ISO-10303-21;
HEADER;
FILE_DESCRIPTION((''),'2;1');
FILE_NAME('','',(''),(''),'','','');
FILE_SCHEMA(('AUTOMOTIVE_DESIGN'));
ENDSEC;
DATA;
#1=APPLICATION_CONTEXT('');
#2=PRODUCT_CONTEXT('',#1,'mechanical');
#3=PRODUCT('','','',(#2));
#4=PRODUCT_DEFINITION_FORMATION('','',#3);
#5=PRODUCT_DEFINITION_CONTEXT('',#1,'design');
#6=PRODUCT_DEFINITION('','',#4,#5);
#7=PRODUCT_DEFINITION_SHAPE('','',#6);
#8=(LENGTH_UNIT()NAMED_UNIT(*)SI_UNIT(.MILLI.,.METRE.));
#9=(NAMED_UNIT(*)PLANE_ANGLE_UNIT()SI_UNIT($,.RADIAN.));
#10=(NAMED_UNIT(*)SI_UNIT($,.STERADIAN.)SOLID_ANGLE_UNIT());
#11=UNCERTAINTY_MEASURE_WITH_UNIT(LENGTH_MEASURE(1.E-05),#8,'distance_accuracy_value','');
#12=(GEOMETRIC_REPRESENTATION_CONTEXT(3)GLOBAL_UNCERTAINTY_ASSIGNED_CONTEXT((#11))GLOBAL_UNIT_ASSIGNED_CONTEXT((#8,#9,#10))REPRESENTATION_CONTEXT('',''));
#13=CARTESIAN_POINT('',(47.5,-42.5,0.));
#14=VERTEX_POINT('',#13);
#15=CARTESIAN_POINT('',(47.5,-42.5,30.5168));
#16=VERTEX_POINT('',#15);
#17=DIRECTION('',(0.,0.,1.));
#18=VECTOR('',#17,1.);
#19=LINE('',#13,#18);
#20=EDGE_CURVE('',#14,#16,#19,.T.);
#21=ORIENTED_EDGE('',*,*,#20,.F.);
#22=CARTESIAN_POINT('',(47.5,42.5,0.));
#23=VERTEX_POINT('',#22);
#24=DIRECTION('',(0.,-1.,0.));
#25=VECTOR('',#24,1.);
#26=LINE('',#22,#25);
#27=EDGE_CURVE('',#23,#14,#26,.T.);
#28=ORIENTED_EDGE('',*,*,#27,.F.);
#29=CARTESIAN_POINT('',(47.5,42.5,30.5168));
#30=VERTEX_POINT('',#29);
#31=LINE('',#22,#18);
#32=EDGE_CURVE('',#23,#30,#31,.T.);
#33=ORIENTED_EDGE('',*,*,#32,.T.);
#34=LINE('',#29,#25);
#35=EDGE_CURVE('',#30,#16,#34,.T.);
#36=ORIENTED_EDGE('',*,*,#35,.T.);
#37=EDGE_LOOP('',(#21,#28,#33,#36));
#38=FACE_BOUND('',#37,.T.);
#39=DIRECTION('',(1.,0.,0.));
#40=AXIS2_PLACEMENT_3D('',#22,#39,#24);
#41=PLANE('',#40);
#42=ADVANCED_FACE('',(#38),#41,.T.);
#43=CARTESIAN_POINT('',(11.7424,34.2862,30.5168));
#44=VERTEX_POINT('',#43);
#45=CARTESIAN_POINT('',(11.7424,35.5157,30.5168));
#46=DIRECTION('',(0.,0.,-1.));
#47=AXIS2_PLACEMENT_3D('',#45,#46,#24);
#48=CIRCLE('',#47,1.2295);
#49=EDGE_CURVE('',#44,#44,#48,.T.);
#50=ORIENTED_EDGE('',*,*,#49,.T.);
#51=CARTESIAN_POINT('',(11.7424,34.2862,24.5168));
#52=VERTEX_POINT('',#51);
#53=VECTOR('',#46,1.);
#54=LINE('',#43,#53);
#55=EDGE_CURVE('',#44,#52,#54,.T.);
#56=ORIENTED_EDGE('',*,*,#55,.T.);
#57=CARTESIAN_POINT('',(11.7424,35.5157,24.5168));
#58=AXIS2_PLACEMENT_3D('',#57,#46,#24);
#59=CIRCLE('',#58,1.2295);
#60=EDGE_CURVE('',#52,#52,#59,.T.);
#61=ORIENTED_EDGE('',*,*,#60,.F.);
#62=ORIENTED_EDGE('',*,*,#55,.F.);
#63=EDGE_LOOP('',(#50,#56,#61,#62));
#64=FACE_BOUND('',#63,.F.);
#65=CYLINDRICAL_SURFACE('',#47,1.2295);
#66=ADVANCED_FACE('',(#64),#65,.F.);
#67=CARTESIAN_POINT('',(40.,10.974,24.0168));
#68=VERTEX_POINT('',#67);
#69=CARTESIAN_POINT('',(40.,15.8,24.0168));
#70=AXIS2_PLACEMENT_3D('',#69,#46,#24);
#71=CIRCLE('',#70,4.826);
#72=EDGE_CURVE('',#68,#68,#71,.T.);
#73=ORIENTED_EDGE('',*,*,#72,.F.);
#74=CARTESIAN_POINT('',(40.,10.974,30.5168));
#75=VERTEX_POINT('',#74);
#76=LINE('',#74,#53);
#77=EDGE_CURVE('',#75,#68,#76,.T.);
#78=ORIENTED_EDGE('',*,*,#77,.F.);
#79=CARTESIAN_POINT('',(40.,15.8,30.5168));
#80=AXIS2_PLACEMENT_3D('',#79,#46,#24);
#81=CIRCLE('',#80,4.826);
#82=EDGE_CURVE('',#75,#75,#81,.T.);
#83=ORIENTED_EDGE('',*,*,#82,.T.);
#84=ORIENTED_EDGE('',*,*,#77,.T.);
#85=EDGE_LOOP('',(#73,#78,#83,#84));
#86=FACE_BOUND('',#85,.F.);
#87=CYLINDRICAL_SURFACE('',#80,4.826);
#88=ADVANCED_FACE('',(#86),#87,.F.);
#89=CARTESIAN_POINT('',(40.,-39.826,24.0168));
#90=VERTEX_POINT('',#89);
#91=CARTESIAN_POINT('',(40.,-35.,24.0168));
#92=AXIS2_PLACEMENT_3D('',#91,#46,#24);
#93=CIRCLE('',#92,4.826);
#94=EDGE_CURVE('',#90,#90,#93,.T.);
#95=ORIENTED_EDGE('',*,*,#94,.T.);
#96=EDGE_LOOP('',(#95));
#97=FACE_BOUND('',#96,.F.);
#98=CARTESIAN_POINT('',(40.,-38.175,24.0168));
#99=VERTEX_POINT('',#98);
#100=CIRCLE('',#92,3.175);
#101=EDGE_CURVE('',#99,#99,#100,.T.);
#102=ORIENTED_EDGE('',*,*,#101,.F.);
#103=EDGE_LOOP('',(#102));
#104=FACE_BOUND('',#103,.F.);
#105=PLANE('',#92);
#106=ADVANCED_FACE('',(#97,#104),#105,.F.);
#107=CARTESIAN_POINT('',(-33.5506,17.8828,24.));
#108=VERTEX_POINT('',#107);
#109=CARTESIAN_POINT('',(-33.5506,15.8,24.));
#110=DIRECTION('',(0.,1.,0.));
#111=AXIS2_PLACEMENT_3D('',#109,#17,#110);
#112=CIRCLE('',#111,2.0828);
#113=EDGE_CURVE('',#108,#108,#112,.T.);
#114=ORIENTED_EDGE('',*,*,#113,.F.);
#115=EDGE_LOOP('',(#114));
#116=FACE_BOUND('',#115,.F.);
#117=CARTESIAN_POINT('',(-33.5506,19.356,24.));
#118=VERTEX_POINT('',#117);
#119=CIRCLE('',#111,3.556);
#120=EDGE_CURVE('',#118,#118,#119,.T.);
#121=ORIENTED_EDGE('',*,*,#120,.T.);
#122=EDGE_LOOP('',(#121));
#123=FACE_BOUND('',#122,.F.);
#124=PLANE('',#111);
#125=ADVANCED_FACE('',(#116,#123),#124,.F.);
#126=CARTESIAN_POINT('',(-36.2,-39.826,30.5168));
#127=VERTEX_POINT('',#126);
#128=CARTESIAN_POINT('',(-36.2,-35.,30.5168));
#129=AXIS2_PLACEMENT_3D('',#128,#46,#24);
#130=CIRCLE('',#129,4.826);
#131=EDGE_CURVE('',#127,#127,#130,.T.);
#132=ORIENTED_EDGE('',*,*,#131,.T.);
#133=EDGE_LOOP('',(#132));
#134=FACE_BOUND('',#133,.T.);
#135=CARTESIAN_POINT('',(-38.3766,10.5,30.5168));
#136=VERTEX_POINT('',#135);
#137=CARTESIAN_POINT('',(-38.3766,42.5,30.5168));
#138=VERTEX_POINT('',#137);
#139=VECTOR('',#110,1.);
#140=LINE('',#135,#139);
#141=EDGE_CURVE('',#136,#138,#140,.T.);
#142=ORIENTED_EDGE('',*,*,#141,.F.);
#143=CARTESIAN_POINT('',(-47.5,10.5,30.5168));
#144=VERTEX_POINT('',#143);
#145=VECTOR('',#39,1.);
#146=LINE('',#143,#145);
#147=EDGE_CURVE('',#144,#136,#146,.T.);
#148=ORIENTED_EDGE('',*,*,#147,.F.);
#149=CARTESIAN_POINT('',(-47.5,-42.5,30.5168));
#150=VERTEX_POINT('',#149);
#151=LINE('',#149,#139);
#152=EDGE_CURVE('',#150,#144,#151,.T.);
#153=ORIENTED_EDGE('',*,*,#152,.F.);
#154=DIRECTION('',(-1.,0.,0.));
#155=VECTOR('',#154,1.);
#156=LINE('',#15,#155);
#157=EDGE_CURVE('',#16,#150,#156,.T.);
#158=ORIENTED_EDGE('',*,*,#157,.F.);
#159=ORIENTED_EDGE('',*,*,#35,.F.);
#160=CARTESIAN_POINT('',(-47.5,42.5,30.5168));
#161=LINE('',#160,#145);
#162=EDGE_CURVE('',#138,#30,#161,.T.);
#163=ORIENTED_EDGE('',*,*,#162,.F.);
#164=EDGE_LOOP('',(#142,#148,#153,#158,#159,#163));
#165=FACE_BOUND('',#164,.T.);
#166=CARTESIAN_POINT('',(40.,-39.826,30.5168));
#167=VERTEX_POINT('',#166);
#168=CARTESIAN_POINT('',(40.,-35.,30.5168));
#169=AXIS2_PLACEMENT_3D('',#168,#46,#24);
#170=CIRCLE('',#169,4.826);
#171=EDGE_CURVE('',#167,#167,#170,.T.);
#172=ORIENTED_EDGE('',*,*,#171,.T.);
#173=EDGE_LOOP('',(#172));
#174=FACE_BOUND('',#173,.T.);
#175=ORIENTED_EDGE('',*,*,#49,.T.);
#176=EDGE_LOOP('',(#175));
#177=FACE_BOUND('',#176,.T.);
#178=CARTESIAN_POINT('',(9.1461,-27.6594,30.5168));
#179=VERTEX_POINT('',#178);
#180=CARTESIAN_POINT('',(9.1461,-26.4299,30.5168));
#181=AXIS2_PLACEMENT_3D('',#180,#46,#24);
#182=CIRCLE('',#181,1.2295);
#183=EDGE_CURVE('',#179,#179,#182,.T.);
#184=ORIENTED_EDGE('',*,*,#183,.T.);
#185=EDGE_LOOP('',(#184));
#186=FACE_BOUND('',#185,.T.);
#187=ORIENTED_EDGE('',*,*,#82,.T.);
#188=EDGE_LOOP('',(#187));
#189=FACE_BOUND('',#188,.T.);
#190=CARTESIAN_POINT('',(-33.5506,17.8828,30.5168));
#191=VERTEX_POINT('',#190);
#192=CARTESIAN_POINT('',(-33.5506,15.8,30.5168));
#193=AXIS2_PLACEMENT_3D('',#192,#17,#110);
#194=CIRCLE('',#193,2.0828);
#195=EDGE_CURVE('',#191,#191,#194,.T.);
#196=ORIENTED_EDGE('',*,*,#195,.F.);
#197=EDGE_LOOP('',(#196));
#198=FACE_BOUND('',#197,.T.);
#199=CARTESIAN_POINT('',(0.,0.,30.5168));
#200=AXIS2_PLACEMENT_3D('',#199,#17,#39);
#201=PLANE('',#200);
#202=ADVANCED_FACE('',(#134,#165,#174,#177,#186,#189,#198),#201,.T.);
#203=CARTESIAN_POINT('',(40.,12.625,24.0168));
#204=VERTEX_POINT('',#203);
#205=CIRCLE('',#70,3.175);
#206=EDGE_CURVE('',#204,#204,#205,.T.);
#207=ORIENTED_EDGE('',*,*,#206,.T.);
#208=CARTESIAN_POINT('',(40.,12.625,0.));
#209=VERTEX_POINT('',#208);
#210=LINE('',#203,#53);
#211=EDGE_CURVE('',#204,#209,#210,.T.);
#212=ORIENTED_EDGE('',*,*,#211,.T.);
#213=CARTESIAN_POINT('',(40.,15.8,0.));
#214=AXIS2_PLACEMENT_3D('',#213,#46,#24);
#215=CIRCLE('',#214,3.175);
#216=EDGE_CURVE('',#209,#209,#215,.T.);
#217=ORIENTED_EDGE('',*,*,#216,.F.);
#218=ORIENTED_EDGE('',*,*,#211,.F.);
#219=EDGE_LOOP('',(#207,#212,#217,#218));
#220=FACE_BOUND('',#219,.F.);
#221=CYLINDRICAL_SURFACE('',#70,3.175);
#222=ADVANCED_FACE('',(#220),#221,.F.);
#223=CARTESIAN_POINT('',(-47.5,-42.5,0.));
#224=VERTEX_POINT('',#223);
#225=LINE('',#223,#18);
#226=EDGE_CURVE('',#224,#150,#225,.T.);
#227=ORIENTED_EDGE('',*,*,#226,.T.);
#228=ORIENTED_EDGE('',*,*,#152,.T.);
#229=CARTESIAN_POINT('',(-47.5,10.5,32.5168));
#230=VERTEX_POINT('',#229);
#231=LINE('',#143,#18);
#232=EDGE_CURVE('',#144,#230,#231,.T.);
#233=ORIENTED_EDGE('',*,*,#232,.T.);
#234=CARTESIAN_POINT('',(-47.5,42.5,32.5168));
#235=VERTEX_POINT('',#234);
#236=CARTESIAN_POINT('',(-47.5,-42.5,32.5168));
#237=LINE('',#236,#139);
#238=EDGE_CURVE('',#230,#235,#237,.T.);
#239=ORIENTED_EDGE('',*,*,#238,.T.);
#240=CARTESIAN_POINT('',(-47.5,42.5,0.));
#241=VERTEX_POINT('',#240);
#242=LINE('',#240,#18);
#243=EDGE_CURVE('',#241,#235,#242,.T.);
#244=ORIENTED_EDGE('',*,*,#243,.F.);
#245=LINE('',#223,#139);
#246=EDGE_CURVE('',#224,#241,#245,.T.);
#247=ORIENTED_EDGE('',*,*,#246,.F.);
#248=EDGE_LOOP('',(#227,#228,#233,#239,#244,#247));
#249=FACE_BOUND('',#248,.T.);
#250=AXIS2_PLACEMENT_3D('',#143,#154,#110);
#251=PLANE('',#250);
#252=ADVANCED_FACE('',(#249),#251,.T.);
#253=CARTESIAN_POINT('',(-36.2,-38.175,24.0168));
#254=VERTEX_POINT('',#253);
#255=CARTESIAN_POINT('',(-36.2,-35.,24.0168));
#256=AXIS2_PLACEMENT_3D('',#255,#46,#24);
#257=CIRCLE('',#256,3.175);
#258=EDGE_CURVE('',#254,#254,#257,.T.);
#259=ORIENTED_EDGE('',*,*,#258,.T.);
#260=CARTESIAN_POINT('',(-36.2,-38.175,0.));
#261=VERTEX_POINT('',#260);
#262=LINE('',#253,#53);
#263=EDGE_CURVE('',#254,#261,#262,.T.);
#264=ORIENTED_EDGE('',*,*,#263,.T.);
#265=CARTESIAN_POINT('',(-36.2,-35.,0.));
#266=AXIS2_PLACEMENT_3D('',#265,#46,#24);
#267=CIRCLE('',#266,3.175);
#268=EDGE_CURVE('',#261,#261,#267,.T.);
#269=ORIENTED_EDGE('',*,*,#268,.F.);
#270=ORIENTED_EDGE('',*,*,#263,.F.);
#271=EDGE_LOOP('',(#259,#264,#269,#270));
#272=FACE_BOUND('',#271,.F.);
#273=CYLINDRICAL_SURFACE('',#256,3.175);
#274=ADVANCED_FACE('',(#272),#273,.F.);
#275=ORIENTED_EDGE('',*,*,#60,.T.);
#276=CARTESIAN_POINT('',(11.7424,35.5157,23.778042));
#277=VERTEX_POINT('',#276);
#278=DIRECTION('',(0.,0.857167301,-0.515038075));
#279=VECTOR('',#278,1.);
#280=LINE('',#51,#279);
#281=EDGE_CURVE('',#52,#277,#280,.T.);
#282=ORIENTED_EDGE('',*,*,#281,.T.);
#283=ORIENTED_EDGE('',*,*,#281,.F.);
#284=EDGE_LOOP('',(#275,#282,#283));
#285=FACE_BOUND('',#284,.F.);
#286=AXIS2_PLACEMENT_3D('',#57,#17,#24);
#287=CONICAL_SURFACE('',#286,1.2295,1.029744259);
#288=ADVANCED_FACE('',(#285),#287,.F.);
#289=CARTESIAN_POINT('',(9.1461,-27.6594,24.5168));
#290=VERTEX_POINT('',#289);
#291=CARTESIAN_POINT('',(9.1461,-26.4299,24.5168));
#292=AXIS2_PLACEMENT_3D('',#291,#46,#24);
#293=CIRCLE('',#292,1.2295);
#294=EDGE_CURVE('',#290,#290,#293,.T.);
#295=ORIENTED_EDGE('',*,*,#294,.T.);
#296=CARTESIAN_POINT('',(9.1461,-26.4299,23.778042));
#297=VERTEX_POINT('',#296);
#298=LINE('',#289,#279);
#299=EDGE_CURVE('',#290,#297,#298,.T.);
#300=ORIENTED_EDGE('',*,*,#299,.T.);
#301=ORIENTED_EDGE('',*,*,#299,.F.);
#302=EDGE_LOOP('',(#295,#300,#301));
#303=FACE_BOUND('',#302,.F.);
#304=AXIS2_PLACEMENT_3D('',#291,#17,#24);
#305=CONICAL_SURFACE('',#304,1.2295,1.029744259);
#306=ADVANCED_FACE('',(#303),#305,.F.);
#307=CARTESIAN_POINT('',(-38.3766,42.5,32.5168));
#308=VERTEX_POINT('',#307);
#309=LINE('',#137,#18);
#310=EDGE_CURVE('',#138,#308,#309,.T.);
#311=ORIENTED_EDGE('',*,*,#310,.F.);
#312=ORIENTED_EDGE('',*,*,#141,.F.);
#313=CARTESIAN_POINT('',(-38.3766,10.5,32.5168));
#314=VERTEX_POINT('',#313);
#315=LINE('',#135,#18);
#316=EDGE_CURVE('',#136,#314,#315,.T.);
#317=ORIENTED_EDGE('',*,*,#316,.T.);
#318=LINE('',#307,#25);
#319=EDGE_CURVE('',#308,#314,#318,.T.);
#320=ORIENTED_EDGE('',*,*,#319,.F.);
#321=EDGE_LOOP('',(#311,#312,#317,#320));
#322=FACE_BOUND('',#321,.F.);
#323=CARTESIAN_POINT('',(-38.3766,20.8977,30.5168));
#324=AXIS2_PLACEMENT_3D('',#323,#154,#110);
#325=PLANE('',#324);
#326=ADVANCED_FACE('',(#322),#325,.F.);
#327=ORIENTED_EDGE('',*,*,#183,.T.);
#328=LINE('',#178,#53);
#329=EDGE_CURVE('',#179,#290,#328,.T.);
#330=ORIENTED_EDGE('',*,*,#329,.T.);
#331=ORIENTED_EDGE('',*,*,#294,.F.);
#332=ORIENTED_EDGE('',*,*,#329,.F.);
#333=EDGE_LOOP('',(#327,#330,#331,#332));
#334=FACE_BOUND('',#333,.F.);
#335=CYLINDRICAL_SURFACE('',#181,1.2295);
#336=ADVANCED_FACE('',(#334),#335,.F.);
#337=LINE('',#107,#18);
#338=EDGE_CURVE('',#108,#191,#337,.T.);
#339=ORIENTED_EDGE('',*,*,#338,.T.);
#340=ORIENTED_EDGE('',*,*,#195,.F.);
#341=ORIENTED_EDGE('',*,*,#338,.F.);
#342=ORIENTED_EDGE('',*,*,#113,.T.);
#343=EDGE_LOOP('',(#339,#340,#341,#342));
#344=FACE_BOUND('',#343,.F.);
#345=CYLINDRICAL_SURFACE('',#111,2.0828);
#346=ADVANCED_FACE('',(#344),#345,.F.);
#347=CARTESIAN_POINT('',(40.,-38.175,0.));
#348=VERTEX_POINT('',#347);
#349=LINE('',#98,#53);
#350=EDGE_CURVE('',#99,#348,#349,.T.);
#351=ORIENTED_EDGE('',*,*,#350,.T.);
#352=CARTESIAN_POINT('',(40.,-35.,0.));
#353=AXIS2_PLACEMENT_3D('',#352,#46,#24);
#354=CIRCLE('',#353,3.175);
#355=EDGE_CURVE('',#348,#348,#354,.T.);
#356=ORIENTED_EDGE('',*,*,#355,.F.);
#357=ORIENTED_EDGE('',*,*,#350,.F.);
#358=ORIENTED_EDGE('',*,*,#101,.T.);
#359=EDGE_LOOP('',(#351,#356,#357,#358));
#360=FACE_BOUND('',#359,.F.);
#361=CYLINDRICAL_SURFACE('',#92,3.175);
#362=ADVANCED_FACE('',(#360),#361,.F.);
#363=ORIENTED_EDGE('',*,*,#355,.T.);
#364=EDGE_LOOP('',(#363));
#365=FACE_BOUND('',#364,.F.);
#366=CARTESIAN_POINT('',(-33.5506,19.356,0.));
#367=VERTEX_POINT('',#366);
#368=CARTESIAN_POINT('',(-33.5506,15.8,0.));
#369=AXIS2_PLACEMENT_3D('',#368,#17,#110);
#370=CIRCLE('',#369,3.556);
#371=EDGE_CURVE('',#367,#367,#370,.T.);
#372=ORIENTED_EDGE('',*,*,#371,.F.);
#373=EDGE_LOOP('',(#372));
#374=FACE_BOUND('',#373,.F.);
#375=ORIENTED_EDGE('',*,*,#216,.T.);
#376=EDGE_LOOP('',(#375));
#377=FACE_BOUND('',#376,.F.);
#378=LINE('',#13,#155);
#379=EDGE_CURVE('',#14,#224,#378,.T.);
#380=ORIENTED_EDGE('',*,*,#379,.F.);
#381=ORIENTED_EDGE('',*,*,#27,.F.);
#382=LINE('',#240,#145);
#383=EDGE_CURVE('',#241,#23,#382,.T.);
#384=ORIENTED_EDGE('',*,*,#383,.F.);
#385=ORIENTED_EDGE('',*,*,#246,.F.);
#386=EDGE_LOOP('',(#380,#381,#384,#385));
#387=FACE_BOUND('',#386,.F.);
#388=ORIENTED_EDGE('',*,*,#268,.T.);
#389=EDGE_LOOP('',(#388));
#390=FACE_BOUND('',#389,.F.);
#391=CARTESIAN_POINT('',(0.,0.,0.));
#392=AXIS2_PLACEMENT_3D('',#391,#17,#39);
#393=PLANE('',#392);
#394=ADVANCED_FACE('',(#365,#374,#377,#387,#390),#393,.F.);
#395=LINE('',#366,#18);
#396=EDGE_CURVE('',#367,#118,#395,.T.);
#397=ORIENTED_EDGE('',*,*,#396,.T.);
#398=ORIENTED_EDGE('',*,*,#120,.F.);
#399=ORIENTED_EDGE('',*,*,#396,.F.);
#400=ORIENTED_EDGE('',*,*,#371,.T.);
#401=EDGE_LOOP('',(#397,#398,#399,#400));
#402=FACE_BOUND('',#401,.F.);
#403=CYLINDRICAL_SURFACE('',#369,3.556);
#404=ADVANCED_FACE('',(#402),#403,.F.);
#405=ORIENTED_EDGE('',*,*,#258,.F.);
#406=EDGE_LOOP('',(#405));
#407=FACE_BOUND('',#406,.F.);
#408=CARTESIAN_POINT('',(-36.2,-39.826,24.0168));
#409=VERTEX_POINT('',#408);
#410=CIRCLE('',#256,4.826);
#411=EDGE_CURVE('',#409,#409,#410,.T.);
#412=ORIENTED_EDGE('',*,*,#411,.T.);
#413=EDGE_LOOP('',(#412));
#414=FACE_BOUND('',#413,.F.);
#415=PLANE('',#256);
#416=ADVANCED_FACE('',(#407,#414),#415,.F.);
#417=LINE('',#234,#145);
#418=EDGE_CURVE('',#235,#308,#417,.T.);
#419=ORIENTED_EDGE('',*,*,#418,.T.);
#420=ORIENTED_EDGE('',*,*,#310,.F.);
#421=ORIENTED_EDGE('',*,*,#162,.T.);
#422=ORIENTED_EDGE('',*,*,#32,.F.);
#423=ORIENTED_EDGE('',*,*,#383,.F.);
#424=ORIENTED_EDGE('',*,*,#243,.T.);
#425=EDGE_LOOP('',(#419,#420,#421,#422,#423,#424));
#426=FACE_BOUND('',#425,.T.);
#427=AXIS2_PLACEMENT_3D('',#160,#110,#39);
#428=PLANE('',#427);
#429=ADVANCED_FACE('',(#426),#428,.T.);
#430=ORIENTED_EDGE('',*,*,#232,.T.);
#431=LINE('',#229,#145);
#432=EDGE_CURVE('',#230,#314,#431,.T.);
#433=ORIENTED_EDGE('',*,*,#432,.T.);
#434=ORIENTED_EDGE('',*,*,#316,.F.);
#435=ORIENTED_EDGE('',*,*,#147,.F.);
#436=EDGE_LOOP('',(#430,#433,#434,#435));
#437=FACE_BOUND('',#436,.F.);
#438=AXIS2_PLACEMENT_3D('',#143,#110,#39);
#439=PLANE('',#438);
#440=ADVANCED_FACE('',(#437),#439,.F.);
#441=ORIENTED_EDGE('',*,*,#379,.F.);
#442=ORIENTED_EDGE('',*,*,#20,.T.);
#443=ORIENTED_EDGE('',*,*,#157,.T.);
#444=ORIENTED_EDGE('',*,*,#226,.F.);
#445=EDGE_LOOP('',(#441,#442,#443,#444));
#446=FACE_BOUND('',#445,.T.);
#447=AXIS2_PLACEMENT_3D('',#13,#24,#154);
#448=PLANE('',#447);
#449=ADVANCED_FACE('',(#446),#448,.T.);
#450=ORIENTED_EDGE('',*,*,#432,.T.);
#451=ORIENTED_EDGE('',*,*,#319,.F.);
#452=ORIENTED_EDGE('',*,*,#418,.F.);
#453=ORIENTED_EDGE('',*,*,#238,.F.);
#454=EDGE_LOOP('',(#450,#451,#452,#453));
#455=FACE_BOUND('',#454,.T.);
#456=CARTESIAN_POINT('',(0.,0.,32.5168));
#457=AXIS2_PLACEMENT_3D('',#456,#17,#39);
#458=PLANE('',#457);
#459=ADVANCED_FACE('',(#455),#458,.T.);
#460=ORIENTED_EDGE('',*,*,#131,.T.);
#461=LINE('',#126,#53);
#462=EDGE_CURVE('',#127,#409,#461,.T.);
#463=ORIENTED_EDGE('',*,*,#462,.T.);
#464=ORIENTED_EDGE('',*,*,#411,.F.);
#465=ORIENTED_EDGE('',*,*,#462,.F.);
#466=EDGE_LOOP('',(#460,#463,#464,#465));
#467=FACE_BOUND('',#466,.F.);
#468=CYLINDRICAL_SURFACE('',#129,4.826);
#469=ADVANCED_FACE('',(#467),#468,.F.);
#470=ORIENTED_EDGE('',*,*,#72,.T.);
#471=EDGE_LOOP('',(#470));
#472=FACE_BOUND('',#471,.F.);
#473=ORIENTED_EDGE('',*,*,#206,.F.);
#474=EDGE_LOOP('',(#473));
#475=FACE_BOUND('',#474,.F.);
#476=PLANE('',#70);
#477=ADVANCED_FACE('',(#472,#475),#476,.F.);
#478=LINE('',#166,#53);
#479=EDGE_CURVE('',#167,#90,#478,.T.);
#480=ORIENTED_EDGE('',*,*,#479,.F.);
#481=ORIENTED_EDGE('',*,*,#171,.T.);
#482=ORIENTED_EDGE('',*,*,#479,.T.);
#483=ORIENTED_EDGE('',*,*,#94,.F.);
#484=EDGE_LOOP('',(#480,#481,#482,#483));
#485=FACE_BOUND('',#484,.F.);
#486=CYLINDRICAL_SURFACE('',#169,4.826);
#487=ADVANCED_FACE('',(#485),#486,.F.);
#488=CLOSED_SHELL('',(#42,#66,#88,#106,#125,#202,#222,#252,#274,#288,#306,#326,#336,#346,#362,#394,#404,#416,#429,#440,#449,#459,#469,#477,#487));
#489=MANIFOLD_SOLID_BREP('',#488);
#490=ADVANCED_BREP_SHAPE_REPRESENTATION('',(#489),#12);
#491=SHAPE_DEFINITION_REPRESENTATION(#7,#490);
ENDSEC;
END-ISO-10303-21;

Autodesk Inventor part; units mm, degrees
ref_plane "YZ Plane" through (0, 0, 0) normal (1, 0, 0) x (0, 1, 0)
ref_plane "XZ Plane" through (0, 0, 0) normal (0, 1, 0) x (-1, 0, 0)
ref_plane "XY Plane" through (0, 0, 0) normal (0, 0, 1) x (1, 0, 0)
sketch "Sketch1" plane through (0, 0, 0) normal (0, 0, 1) x (1, 0, 0)
  line L0 (-47.5, 42.5) -> (47.5, 42.5)
  line L1 (47.5, 42.5) -> (47.5, -42.5)
  line L2 (47.5, -42.5) -> (-47.5, -42.5)
  line L3 (-47.5, -42.5) -> (-47.5, 42.5)
  point P0 (0, 0)
  dimension "d0" = 95
  dimension "d1" = 85
  dimension "d2" = 47.5
  dimension "d3" = 42.5
extrude "Extrusion1" add sketch "Sketch1" along normal blind 30.5168
sketch "Sketch2" plane through (0, 0, 30.5168) normal (0, 0, 1) x (1, 0, 0)
  arc A0 (-201.3, -568.6) -> (-188.8, -581.1) centre (-188.8, -568.6) ccw projected
  line L0 (-188.8, -581.1) -> (243.4, -581.1) projected
  arc A1 (243.4, -581.1) -> (255.9, -568.6) centre (243.4, -568.6) ccw projected
  line L1 (255.9, -568.6) -> (255.9, 16) projected
  arc A2 (255.9, 16) -> (243.4, 28.5) centre (243.4, 16) ccw projected
  line L2 (243.4, 28.5) -> (-188.8, 28.5) projected
  arc A3 (-188.8, 28.5) -> (-201.3, 16) centre (-188.8, 16) ccw projected
  line L3 (-201.3, 16) -> (-201.3, -568.6) projected
  circle A4 centre (217.8, -568.4) radius 2.5527 projected
  circle A5 centre (192.4, -568.4) radius 2.5527 projected
  circle A6 centre (167, -568.4) radius 2.5527 projected
  circle A7 centre (141.6, -568.4) radius 2.5527 projected
  circle A8 centre (116.2, -568.4) radius 2.5527 projected
  circle A9 centre (90.8, -568.4) radius 2.5527 projected
  circle A10 centre (65.4, -568.4) radius 2.5527 projected
  circle A11 centre (40, -568.4) radius 2.5527 projected
  circle A12 centre (14.6, -568.4) radius 2.5527 projected
  circle A13 centre (-10.8, -568.4) radius 2.5527 projected
  circle A14 centre (-36.2, -568.4) radius 2.5527 projected
  circle A15 centre (-61.6, -568.4) radius 2.5527 projected
  circle A16 centre (-87, -568.4) radius 2.5527 projected
  circle A17 centre (-112.4, -568.4) radius 2.5527 projected
  circle A18 centre (-137.8, -568.4) radius 2.5527 projected
  circle A19 centre (-163.2, -568.4) radius 2.5527 projected
  circle A20 centre (-188.6, -568.4) radius 2.5527 projected
  circle A21 centre (243.2, -543) radius 2.5527 projected
  circle A22 centre (217.8, -543) radius 2.5527 projected
  circle A23 centre (192.4, -543) radius 2.5527 projected
  circle A24 centre (167, -543) radius 2.5527 projected
  circle A25 centre (141.6, -543) radius 2.5527 projected
  circle A26 centre (116.2, -543) radius 2.5527 projected
  circle A27 centre (90.8, -543) radius 2.5527 projected
  circle A28 centre (65.4, -543) radius 2.5527 projected
  circle A29 centre (40, -543) radius 2.5527 projected
  circle A30 centre (14.6, -543) radius 2.5527 projected
  circle A31 centre (-10.8, -543) radius 2.5527 projected
  circle A32 centre (-36.2, -543) radius 2.5527 projected
  circle A33 centre (-61.6, -543) radius 2.5527 projected
  circle A34 centre (-87, -543) radius 2.5527 projected
  circle A35 centre (-112.4, -543) radius 2.5527 projected
  circle A36 centre (-137.8, -543) radius 2.5527 projected
  circle A37 centre (-163.2, -543) radius 2.5527 projected
  circle A38 centre (-188.6, -543) radius 2.5527 projected
  circle A39 centre (243.2, -517.6) radius 2.5527 projected
  circle A40 centre (217.8, -517.6) radius 2.5527 projected
  circle A41 centre (192.4, -517.6) radius 2.5527 projected
  circle A42 centre (167, -517.6) radius 2.5527 projected
  circle A43 centre (141.6, -517.6) radius 2.5527 projected
  circle A44 centre (116.2, -517.6) radius 2.5527 projected
  circle A45 centre (90.8, -517.6) radius 2.5527 projected
  circle A46 centre (65.4, -517.6) radius 2.5527 projected
  circle A47 centre (40, -517.6) radius 2.5527 projected
  circle A48 centre (14.6, -517.6) radius 2.5527 projected
  circle A49 centre (-10.8, -517.6) radius 2.5527 projected
  circle A50 centre (-36.2, -517.6) radius 2.5527 projected
  circle A51 centre (-61.6, -517.6) radius 2.5527 projected
  circle A52 centre (-87, -517.6) radius 2.5527 projected
  circle A53 centre (-112.4, -517.6) radius 2.5527 projected
  circle A54 centre (-137.8, -517.6) radius 2.5527 projected
  circle A55 centre (-163.2, -517.6) radius 2.5527 projected
  circle A56 centre (-188.6, -517.6) radius 2.5527 projected
  circle A57 centre (243.2, -492.2) radius 2.5527 projected
  circle A58 centre (217.8, -492.2) radius 2.5527 projected
  circle A59 centre (192.4, -492.2) radius 2.5527 projected
  circle A60 centre (167, -492.2) radius 2.5527 projected
  circle A61 centre (141.6, -492.2) radius 2.5527 projected
  circle A62 centre (116.2, -492.2) radius 2.5527 projected
  circle A63 centre (90.8, -492.2) radius 2.5527 projected
  circle A64 centre (65.4, -492.2) radius 2.5527 projected
  circle A65 centre (40, -492.2) radius 2.5527 projected
  circle A66 centre (14.6, -492.2) radius 2.5527 projected
  circle A67 centre (-10.8, -492.2) radius 2.5527 projected
  circle A68 centre (-36.2, -492.2) radius 2.5527 projected
  circle A69 centre (-61.6, -492.2) radius 2.5527 projected
  circle A70 centre (-87, -492.2) radius 2.5527 projected
  circle A71 centre (-112.4, -492.2) radius 2.5527 projected
  circle A72 centre (-137.8, -492.2) radius 2.5527 projected
  circle A73 centre (-163.2, -492.2) radius 2.5527 projected
  circle A74 centre (-188.6, -492.2) radius 2.5527 projected
  circle A75 centre (243.2, -466.8) radius 2.5527 projected
  circle A76 centre (217.8, -466.8) radius 2.5527 projected
  circle A77 centre (192.4, -466.8) radius 2.5527 projected
  circle A78 centre (167, -466.8) radius 2.5527 projected
  circle A79 centre (141.6, -466.8) radius 2.5527 projected
  circle A80 centre (116.2, -466.8) radius 2.5527 projected
  circle A81 centre (90.8, -466.8) radius 2.5527 projected
  circle A82 centre (65.4, -466.8) radius 2.5527 projected
  circle A83 centre (40, -466.8) radius 2.5527 projected
  circle A84 centre (14.6, -466.8) radius 2.5527 projected
  circle A85 centre (-10.8, -466.8) radius 2.5527 projected
  circle A86 centre (-36.2, -466.8) radius 2.5527 projected
  circle A87 centre (-61.6, -466.8) radius 2.5527 projected
  circle A88 centre (-87, -466.8) radius 2.5527 projected
  circle A89 centre (-112.4, -466.8) radius 2.5527 projected
  circle A90 centre (-137.8, -466.8) radius 2.5527 projected
  circle A91 centre (-163.2, -466.8) radius 2.5527 projected
  circle A92 centre (-188.6, -466.8) radius 2.5527 projected
  circle A93 centre (243.2, -441.4) radius 2.5527 projected
  circle A94 centre (217.8, -441.4) radius 2.5527 projected
  circle A95 centre (192.4, -441.4) radius 2.5527 projected
  circle A96 centre (167, -441.4) radius 2.5527 projected
  circle A97 centre (141.6, -441.4) radius 2.5527 projected
  circle A98 centre (116.2, -441.4) radius 2.5527 projected
  circle A99 centre (90.8, -441.4) radius 2.5527 projected
  circle A100 centre (65.4, -441.4) radius 2.5527 projected
  circle A101 centre (40, -441.4) radius 2.5527 projected
  circle A102 centre (14.6, -441.4) radius 2.5527 projected
  circle A103 centre (-10.8, -441.4) radius 2.5527 projected
  circle A104 centre (-36.2, -441.4) radius 2.5527 projected
  circle A105 centre (-61.6, -441.4) radius 2.5527 projected
  circle A106 centre (-87, -441.4) radius 2.5527 projected
  circle A107 centre (-112.4, -441.4) radius 2.5527 projected
  circle A108 centre (-137.8, -441.4) radius 2.5527 projected
  circle A109 centre (-163.2, -441.4) radius 2.5527 projected
  circle A110 centre (-188.6, -441.4) radius 2.5527 projected
  circle A111 centre (243.2, -416) radius 2.5527 projected
  circle A112 centre (217.8, -416) radius 2.5527 projected
  circle A113 centre (192.4, -416) radius 2.5527 projected
  circle A114 centre (167, -416) radius 2.5527 projected
  circle A115 centre (141.6, -416) radius 2.5527 projected
  circle A116 centre (116.2, -416) radius 2.5527 projected
  circle A117 centre (90.8, -416) radius 2.5527 projected
  circle A118 centre (65.4, -416) radius 2.5527 projected
  circle A119 centre (40, -416) radius 2.5527 projected
  circle A120 centre (14.6, -416) radius 2.5527 projected
  circle A121 centre (-10.8, -416) radius 2.5527 projected
  circle A122 centre (-36.2, -416) radius 2.5527 projected
  circle A123 centre (-61.6, -416) radius 2.5527 projected
  circle A124 centre (-87, -416) radius 2.5527 projected
  circle A125 centre (-112.4, -416) radius 2.5527 projected
  circle A126 centre (-137.8, -416) radius 2.5527 projected
  circle A127 centre (-163.2, -416) radius 2.5527 projected
  circle A128 centre (-188.6, -416) radius 2.5527 projected
  circle A129 centre (243.2, -390.6) radius 2.5527 projected
  circle A130 centre (217.8, -390.6) radius 2.5527 projected
  circle A131 centre (192.4, -390.6) radius 2.5527 projected
  circle A132 centre (167, -390.6) radius 2.5527 projected
  circle A133 centre (141.6, -390.6) radius 2.5527 projected
  circle A134 centre (116.2, -390.6) radius 2.5527 projected
  circle A135 centre (90.8, -390.6) radius 2.5527 projected
  circle A136 centre (65.4, -390.6) radius 2.5527 projected
  circle A137 centre (40, -390.6) radius 2.5527 projected
  circle A138 centre (14.6, -390.6) radius 2.5527 projected
  circle A139 centre (-10.8, -390.6) radius 2.5527 projected
  circle A140 centre (-36.2, -390.6) radius 2.5527 projected
  circle A141 centre (-61.6, -390.6) radius 2.5527 projected
  circle A142 centre (-87, -390.6) radius 2.5527 projected
  circle A143 centre (-112.4, -390.6) radius 2.5527 projected
  circle A144 centre (-137.8, -390.6) radius 2.5527 projected
  circle A145 centre (-163.2, -390.6) radius 2.5527 projected
  circle A146 centre (-188.6, -390.6) radius 2.5527 projected
  circle A147 centre (243.2, -365.2) radius 2.5527 projected
  circle A148 centre (217.8, -365.2) radius 2.5527 projected
  circle A149 centre (192.4, -365.2) radius 2.5527 projected
  circle A150 centre (167, -365.2) radius 2.5527 projected
  circle A151 centre (141.6, -365.2) radius 2.5527 projected
  circle A152 centre (116.2, -365.2) radius 2.5527 projected
  circle A153 centre (90.8, -365.2) radius 2.5527 projected
  circle A154 centre (65.4, -365.2) radius 2.5527 projected
  circle A155 centre (40, -365.2) radius 2.5527 projected
  circle A156 centre (14.6, -365.2) radius 2.5527 projected
  circle A157 centre (-10.8, -365.2) radius 2.5527 projected
  circle A158 centre (-36.2, -365.2) radius 2.5527 projected
  circle A159 centre (-61.6, -365.2) radius 2.5527 projected
  circle A160 centre (-87, -365.2) radius 2.5527 projected
  circle A161 centre (-112.4, -365.2) radius 2.5527 projected
  circle A162 centre (-137.8, -365.2) radius 2.5527 projected
  circle A163 centre (-163.2, -365.2) radius 2.5527 projected
  circle A164 centre (-188.6, -365.2) radius 2.5527 projected
  circle A165 centre (243.2, -339.8) radius 2.5527 projected
  circle A166 centre (217.8, -339.8) radius 2.5527 projected
  circle A167 centre (192.4, -339.8) radius 2.5527 projected
  circle A168 centre (167, -339.8) radius 2.5527 projected
  circle A169 centre (141.6, -339.8) radius 2.5527 projected
  circle A170 centre (116.2, -339.8) radius 2.5527 projected
  circle A171 centre (90.8, -339.8) radius 2.5527 projected
  circle A172 centre (65.4, -339.8) radius 2.5527 projected
  circle A173 centre (40, -339.8) radius 2.5527 projected
  circle A174 centre (14.6, -339.8) radius 2.5527 projected
  circle A175 centre (-10.8, -339.8) radius 2.5527 projected
  circle A176 centre (-36.2, -339.8) radius 2.5527 projected
  circle A177 centre (-61.6, -339.8) radius 2.5527 projected
  circle A178 centre (-87, -339.8) radius 2.5527 projected
  circle A179 centre (-112.4, -339.8) radius 2.5527 projected
  circle A180 centre (-137.8, -339.8) radius 2.5527 projected
  circle A181 centre (-163.2, -339.8) radius 2.5527 projected
  circle A182 centre (-188.6, -339.8) radius 2.5527 projected
  circle A183 centre (243.2, -314.4) radius 2.5527 projected
  circle A184 centre (217.8, -314.4) radius 2.5527 projected
  circle A185 centre (192.4, -314.4) radius 2.5527 projected
  circle A186 centre (167, -314.4) radius 2.5527 projected
  circle A187 centre (141.6, -314.4) radius 2.5527 projected
  circle A188 centre (116.2, -314.4) radius 2.5527 projected
  circle A189 centre (90.8, -314.4) radius 2.5527 projected
  circle A190 centre (65.4, -314.4) radius 2.5527 projected
  circle A191 centre (40, -314.4) radius 2.5527 projected
  circle A192 centre (14.6, -314.4) radius 2.5527 projected
  circle A193 centre (-10.8, -314.4) radius 2.5527 projected
  circle A194 centre (-36.2, -314.4) radius 2.5527 projected
  circle A195 centre (-61.6, -314.4) radius 2.5527 projected
  circle A196 centre (-87, -314.4) radius 2.5527 projected
  circle A197 centre (-112.4, -314.4) radius 2.5527 projected
  circle A198 centre (-137.8, -314.4) radius 2.5527 projected
  circle A199 centre (-163.2, -314.4) radius 2.5527 projected
  circle A200 centre (-188.6, -314.4) radius 2.5527 projected
  circle A201 centre (243.2, -289) radius 2.5527 projected
  circle A202 centre (217.8, -289) radius 2.5527 projected
  circle A203 centre (192.4, -289) radius 2.5527 projected
  circle A204 centre (167, -289) radius 2.5527 projected
  circle A205 centre (141.6, -289) radius 2.5527 projected
  circle A206 centre (116.2, -289) radius 2.5527 projected
  circle A207 centre (90.8, -289) radius 2.5527 projected
  circle A208 centre (65.4, -289) radius 2.5527 projected
  circle A209 centre (40, -289) radius 2.5527 projected
  circle A210 centre (14.6, -289) radius 2.5527 projected
  circle A211 centre (-10.8, -289) radius 2.5527 projected
  circle A212 centre (-36.2, -289) radius 2.5527 projected
  circle A213 centre (-61.6, -289) radius 2.5527 projected
  circle A214 centre (-87, -289) radius 2.5527 projected
  circle A215 centre (-112.4, -289) radius 2.5527 projected
  circle A216 centre (-137.8, -289) radius 2.5527 projected
  circle A217 centre (-163.2, -289) radius 2.5527 projected
  circle A218 centre (-188.6, -289) radius 2.5527 projected
  circle A219 centre (243.2, -263.6) radius 2.5527 projected
  circle A220 centre (217.8, -263.6) radius 2.5527 projected
  circle A221 centre (192.4, -263.6) radius 2.5527 projected
  circle A222 centre (167, -263.6) radius 2.5527 projected
  circle A223 centre (141.6, -263.6) radius 2.5527 projected
  circle A224 centre (116.2, -263.6) radius 2.5527 projected
  circle A225 centre (90.8, -263.6) radius 2.5527 projected
  circle A226 centre (65.4, -263.6) radius 2.5527 projected
  circle A227 centre (40, -263.6) radius 2.5527 projected
  circle A228 centre (14.6, -263.6) radius 2.5527 projected
  circle A229 centre (-10.8, -263.6) radius 2.5527 projected
  circle A230 centre (-36.2, -263.6) radius 2.5527 projected
  circle A231 centre (-61.6, -263.6) radius 2.5527 projected
  circle A232 centre (-87, -263.6) radius 2.5527 projected
  circle A233 centre (-112.4, -263.6) radius 2.5527 projected
  circle A234 centre (-137.8, -263.6) radius 2.5527 projected
  circle A235 centre (-163.2, -263.6) radius 2.5527 projected
  circle A236 centre (-188.6, -263.6) radius 2.5527 projected
  circle A237 centre (243.2, -238.2) radius 2.5527 projected
  circle A238 centre (217.8, -238.2) radius 2.5527 projected
  circle A239 centre (192.4, -238.2) radius 2.5527 projected
  circle A240 centre (167, -238.2) radius 2.5527 projected
  circle A241 centre (141.6, -238.2) radius 2.5527 projected
  circle A242 centre (116.2, -238.2) radius 2.5527 projected
  circle A243 centre (90.8, -238.2) radius 2.5527 projected
  circle A244 centre (65.4, -238.2) radius 2.5527 projected
  circle A245 centre (40, -238.2) radius 2.5527 projected
  circle A246 centre (14.6, -238.2) radius 2.5527 projected
  circle A247 centre (-10.8, -238.2) radius 2.5527 projected
  circle A248 centre (-36.2, -238.2) radius 2.5527 projected
  circle A249 centre (-61.6, -238.2) radius 2.5527 projected
  circle A250 centre (-87, -238.2) radius 2.5527 projected
  circle A251 centre (-112.4, -238.2) radius 2.5527 projected
  circle A252 centre (-137.8, -238.2) radius 2.5527 projected
  circle A253 centre (-163.2, -238.2) radius 2.5527 projected
  circle A254 centre (-188.6, -238.2) radius 2.5527 projected
  circle A255 centre (243.2, -212.8) radius 2.5527 projected
  circle A256 centre (217.8, -212.8) radius 2.5527 projected
  circle A257 centre (192.4, -212.8) radius 2.5527 projected
  circle A258 centre (167, -212.8) radius 2.5527 projected
  circle A259 centre (141.6, -212.8) radius 2.5527 projected
  circle A260 centre (116.2, -212.8) radius 2.5527 projected
  circle A261 centre (90.8, -212.8) radius 2.5527 projected
  circle A262 centre (65.4, -212.8) radius 2.5527 projected
  circle A263 centre (40, -212.8) radius 2.5527 projected
  circle A264 centre (14.6, -212.8) radius 2.5527 projected
  circle A265 centre (-10.8, -212.8) radius 2.5527 projected
  circle A266 centre (-36.2, -212.8) radius 2.5527 projected
  circle A267 centre (-61.6, -212.8) radius 2.5527 projected
  circle A268 centre (-87, -212.8) radius 2.5527 projected
  circle A269 centre (-112.4, -212.8) radius 2.5527 projected
  circle A270 centre (-137.8, -212.8) radius 2.5527 projected
  circle A271 centre (-163.2, -212.8) radius 2.5527 projected
  circle A272 centre (-188.6, -212.8) radius 2.5527 projected
  circle A273 centre (243.2, -187.4) radius 2.5527 projected
  circle A274 centre (217.8, -187.4) radius 2.5527 projected
  circle A275 centre (192.4, -187.4) radius 2.5527 projected
  circle A276 centre (167, -187.4) radius 2.5527 projected
  circle A277 centre (141.6, -187.4) radius 2.5527 projected
  circle A278 centre (116.2, -187.4) radius 2.5527 projected
  circle A279 centre (90.8, -187.4) radius 2.5527 projected
  circle A280 centre (65.4, -187.4) radius 2.5527 projected
  circle A281 centre (40, -187.4) radius 2.5527 projected
  circle A282 centre (14.6, -187.4) radius 2.5527 projected
  circle A283 centre (-10.8, -187.4) radius 2.5527 projected
  circle A284 centre (-36.2, -187.4) radius 2.5527 projected
  circle A285 centre (-61.6, -187.4) radius 2.5527 projected
  circle A286 centre (-87, -187.4) radius 2.5527 projected
  circle A287 centre (-112.4, -187.4) radius 2.5527 projected
  circle A288 centre (-137.8, -187.4) radius 2.5527 projected
  circle A289 centre (-163.2, -187.4) radius 2.5527 projected
  circle A290 centre (-188.6, -187.4) radius 2.5527 projected
  circle A291 centre (243.2, -162) radius 2.5527 projected
  circle A292 centre (217.8, -162) radius 2.5527 projected
  circle A293 centre (192.4, -162) radius 2.5527 projected
  circle A294 centre (167, -162) radius 2.5527 projected
  circle A295 centre (141.6, -162) radius 2.5527 projected
  circle A296 centre (116.2, -162) radius 2.5527 projected
  circle A297 centre (90.8, -162) radius 2.5527 projected
  circle A298 centre (65.4, -162) radius 2.5527 projected
  circle A299 centre (40, -162) radius 2.5527 projected
  circle A300 centre (14.6, -162) radius 2.5527 projected
  circle A301 centre (-10.8, -162) radius 2.5527 projected
  circle A302 centre (-36.2, -162) radius 2.5527 projected
  circle A303 centre (-61.6, -162) radius 2.5527 projected
  circle A304 centre (-87, -162) radius 2.5527 projected
  circle A305 centre (-112.4, -162) radius 2.5527 projected
  circle A306 centre (-137.8, -162) radius 2.5527 projected
  circle A307 centre (-163.2, -162) radius 2.5527 projected
  circle A308 centre (-188.6, -162) radius 2.5527 projected
  circle A309 centre (243.2, -136.6) radius 2.5527 projected
  circle A310 centre (217.8, -136.6) radius 2.5527 projected
  circle A311 centre (192.4, -136.6) radius 2.5527 projected
  circle A312 centre (167, -136.6) radius 2.5527 projected
  circle A313 centre (141.6, -136.6) radius 2.5527 projected
  circle A314 centre (116.2, -136.6) radius 2.5527 projected
  circle A315 centre (90.8, -136.6) radius 2.5527 projected
  circle A316 centre (65.4, -136.6) radius 2.5527 projected
  circle A317 centre (40, -136.6) radius 2.5527 projected
  circle A318 centre (14.6, -136.6) radius 2.5527 projected
  circle A319 centre (-10.8, -136.6) radius 2.5527 projected
  circle A320 centre (-36.2, -136.6) radius 2.5527 projected
  circle A321 centre (-61.6, -136.6) radius 2.5527 projected
  circle A322 centre (-87, -136.6) radius 2.5527 projected
  circle A323 centre (-112.4, -136.6) radius 2.5527 projected
  circle A324 centre (-137.8, -136.6) radius 2.5527 projected
  circle A325 centre (-163.2, -136.6) radius 2.5527 projected
  circle A326 centre (-188.6, -136.6) radius 2.5527 projected
  circle A327 centre (243.2, -111.2) radius 2.5527 projected
  circle A328 centre (217.8, -111.2) radius 2.5527 projected
  circle A329 centre (192.4, -111.2) radius 2.5527 projected
  circle A330 centre (167, -111.2) radius 2.5527 projected
  circle A331 centre (141.6, -111.2) radius 2.5527 projected
  circle A332 centre (116.2, -111.2) radius 2.5527 projected
  circle A333 centre (90.8, -111.2) radius 2.5527 projected
  circle A334 centre (65.4, -111.2) radius 2.5527 projected
  circle A335 centre (40, -111.2) radius 2.5527 projected
  circle A336 centre (14.6, -111.2) radius 2.5527 projected
  circle A337 centre (-10.8, -111.2) radius 2.5527 projected
  circle A338 centre (-36.2, -111.2) radius 2.5527 projected
  circle A339 centre (-61.6, -111.2) radius 2.5527 projected
  circle A340 centre (-87, -111.2) radius 2.5527 projected
  circle A341 centre (-112.4, -111.2) radius 2.5527 projected
  circle A342 centre (-137.8, -111.2) radius 2.5527 projected
  circle A343 centre (-163.2, -111.2) radius 2.5527 projected
  circle A344 centre (-188.6, -111.2) radius 2.5527 projected
  circle A345 centre (243.2, -85.8) radius 2.5527 projected
  circle A346 centre (217.8, -85.8) radius 2.5527 projected
  circle A347 centre (192.4, -85.8) radius 2.5527 projected
  circle A348 centre (167, -85.8) radius 2.5527 projected
  circle A349 centre (141.6, -85.8) radius 2.5527 projected
  circle A350 centre (116.2, -85.8) radius 2.5527 projected
  circle A351 centre (90.8, -85.8) radius 2.5527 projected
  circle A352 centre (65.4, -85.8) radius 2.5527 projected
  circle A353 centre (40, -85.8) radius 2.5527 projected
  circle A354 centre (14.6, -85.8) radius 2.5527 projected
  circle A355 centre (-10.8, -85.8) radius 2.5527 projected
  circle A356 centre (-36.2, -85.8) radius 2.5527 projected
  circle A357 centre (-61.6, -85.8) radius 2.5527 projected
  circle A358 centre (-87, -85.8) radius 2.5527 projected
  circle A359 centre (-112.4, -85.8) radius 2.5527 projected
  circle A360 centre (-137.8, -85.8) radius 2.5527 projected
  circle A361 centre (-163.2, -85.8) radius 2.5527 projected
  circle A362 centre (-188.6, -85.8) radius 2.5527 projected
  circle A363 centre (243.2, -60.4) radius 2.5527 projected
  circle A364 centre (217.8, -60.4) radius 2.5527 projected
  circle A365 centre (192.4, -60.4) radius 2.5527 projected
  circle A366 centre (167, -60.4) radius 2.5527 projected
  circle A367 centre (141.6, -60.4) radius 2.5527 projected
  circle A368 centre (116.2, -60.4) radius 2.5527 projected
  circle A369 centre (90.8, -60.4) radius 2.5527 projected
  circle A370 centre (65.4, -60.4) radius 2.5527 projected
  circle A371 centre (40, -60.4) radius 2.5527 projected
  circle A372 centre (14.6, -60.4) radius 2.5527 projected
  circle A373 centre (-10.8, -60.4) radius 2.5527 projected
  circle A374 centre (-36.2, -60.4) radius 2.5527 projected
  circle A375 centre (-61.6, -60.4) radius 2.5527 projected
  circle A376 centre (-87, -60.4) radius 2.5527 projected
  circle A377 centre (-112.4, -60.4) radius 2.5527 projected
  circle A378 centre (-137.8, -60.4) radius 2.5527 projected
  circle A379 centre (-163.2, -60.4) radius 2.5527 projected
  circle A380 centre (-188.6, -60.4) radius 2.5527 projected
  circle A381 centre (243.2, -35) radius 2.5527 projected
  circle A382 centre (217.8, -35) radius 2.5527 projected
  circle A383 centre (192.4, -35) radius 2.5527 projected
  circle A384 centre (167, -35) radius 2.5527 projected
  circle A385 centre (141.6, -35) radius 2.5527 projected
  circle A386 centre (116.2, -35) radius 2.5527 projected
  circle A387 centre (90.8, -35) radius 2.5527 projected
  circle A388 centre (65.4, -35) radius 2.5527 projected
  circle A389 centre (40, -35) radius 2.5527 projected
  circle A390 centre (14.6, -35) radius 2.5527 projected
  circle A391 centre (-10.8, -35) radius 2.5527 projected
  circle A392 centre (-36.2, -35) radius 2.5527 projected
  circle A393 centre (-61.6, -35) radius 2.5527 projected
  circle A394 centre (-87, -35) radius 2.5527 projected
  circle A395 centre (-112.4, -35) radius 2.5527 projected
  circle A396 centre (-137.8, -35) radius 2.5527 projected
  circle A397 centre (-163.2, -35) radius 2.5527 projected
  circle A398 centre (-188.6, -35) radius 2.5527 projected
  circle A399 centre (243.2, -9.6) radius 2.5527 projected
  circle A400 centre (217.8, -9.6) radius 2.5527 projected
  circle A401 centre (192.4, -9.6) radius 2.5527 projected
  circle A402 centre (167, -9.6) radius 2.5527 projected
  circle A403 centre (141.6, -9.6) radius 2.5527 projected
  circle A404 centre (116.2, -9.6) radius 2.5527 projected
  circle A405 centre (90.8, -9.6) radius 2.5527 projected
  circle A406 centre (65.4, -9.6) radius 2.5527 projected
  circle A407 centre (40, -9.6) radius 2.5527 projected
  circle A408 centre (14.6, -9.6) radius 2.5527 projected
  circle A409 centre (-10.8, -9.6) radius 2.5527 projected
  circle A410 centre (-36.2, -9.6) radius 2.5527 projected
  circle A411 centre (-61.6, -9.6) radius 2.5527 projected
  circle A412 centre (-87, -9.6) radius 2.5527 projected
  circle A413 centre (-112.4, -9.6) radius 2.5527 projected
  circle A414 centre (-137.8, -9.6) radius 2.5527 projected
  circle A415 centre (-163.2, -9.6) radius 2.5527 projected
  circle A416 centre (-188.6, -9.6) radius 2.5527 projected
  circle A417 centre (243.2, 15.8) radius 2.5527 projected
  circle A418 centre (217.8, 15.8) radius 2.5527 projected
  circle A419 centre (192.4, 15.8) radius 2.5527 projected
  circle A420 centre (167, 15.8) radius 2.5527 projected
  circle A421 centre (141.6, 15.8) radius 2.5527 projected
  circle A422 centre (116.2, 15.8) radius 2.5527 projected
  circle A423 centre (90.8, 15.8) radius 2.5527 projected
  circle A424 centre (65.4, 15.8) radius 2.5527 projected
  circle A425 centre (40, 15.8) radius 2.5527 projected
  circle A426 centre (14.6, 15.8) radius 2.5527 projected
  circle A427 centre (-10.8, 15.8) radius 2.5527 projected
  circle A428 centre (-36.2, 15.8) radius 2.5527 projected
  circle A429 centre (-61.6, 15.8) radius 2.5527 projected
  circle A430 centre (-87, 15.8) radius 2.5527 projected
  circle A431 centre (-112.4, 15.8) radius 2.5527 projected
  circle A432 centre (-137.8, 15.8) radius 2.5527 projected
  circle A433 centre (-163.2, 15.8) radius 2.5527 projected
  circle A434 centre (-188.6, 15.8) radius 2.5527 projected
  circle A435 centre (243.2, -568.4) radius 2.5527 projected
  point P0 (0, 0)
hole "Hole1" at (40, 15.8, 30.5168) at (40, -35, 30.5168) at (-36.2, -35, 30.5168) direction (0, 0, -1) diameter 6.35 end through all counterbore diameter 9.652 counterbore depth 6.5
sketch "Sketch3" plane through (0, 0, 30.5168) normal (0, 0, 1) x (1, 0, 0)
  line L0 (26.7983, -23.1663) -> (-8.171, -21.7006) projected
  line L1 (-8.506, -29.6936) -> (-8.171, -21.7006) projected
  line L2 (26.4633, -31.1592) -> (-8.506, -29.6936) projected
  line L3 (26.7983, -23.1663) -> (26.4633, -31.1592) projected
  circle A0 centre (9.1461, -26.4299) radius 1.75 projected
  line L4 (-5.9098, 32.252) -> (29.0595, 30.7864) projected
  line L5 (29.3946, 38.7794) -> (29.0595, 30.7864) projected
  line L6 (-5.5747, 40.245) -> (29.3946, 38.7794) projected
  line L7 (-5.9098, 32.252) -> (-5.5747, 40.245) projected
  circle A1 centre (11.7424, 35.5157) radius 1.75 projected
  point P0 (0, 0)
hole "Hole2" at (9.1461, -26.4299, 30.5168) at (11.7424, 35.5157, 30.5168) direction (0, 0, -1) diameter 2.459 depth 6 tip angle 118 thread size "M3x0.5" class "6H" standard "ANSI Metric M Profile"
sketch "Sketch4" plane through (0, 0, 0) normal (0, 0, -1) x (-1, 0, 0)
  circle A0 centre (33.5506, 15.8) radius 2.3368 projected
  point P0 (0, 0)
hole "Hole3" at (-33.5506, 15.8, 0) direction (0, 0, 1) diameter 4.1656 end through all counterbore diameter 7.112 counterbore depth 24
sketch "Sketch5" plane through (0, 0, 30.5168) normal (0, 0, 1) x (1, 0, 0)
  line L0 (-47.5, 42.5) -> (47.5, 42.5) projected
  line L1 (-47.5, -42.5) -> (-47.5, 42.5) projected
  line L2 (-38.3766, 10.7023) -> (-38.3766, 20.8977) projected
  line L3 (-38.3766, 42.5) -> (-47.5, 42.5)
  line L4 (-47.5, 42.5) -> (-47.5, 10.5)
  line L5 (-47.5, 10.5) -> (-38.3766, 10.5)
  line L6 (-38.3766, 10.5) -> (-38.3766, 42.5)
  point P0 (0, 0)
  dimension "d27" = 32
extrude "Extrusion2" add sketch "Sketch5" along normal blind 2
properties part number "baseblock for AOTF"
